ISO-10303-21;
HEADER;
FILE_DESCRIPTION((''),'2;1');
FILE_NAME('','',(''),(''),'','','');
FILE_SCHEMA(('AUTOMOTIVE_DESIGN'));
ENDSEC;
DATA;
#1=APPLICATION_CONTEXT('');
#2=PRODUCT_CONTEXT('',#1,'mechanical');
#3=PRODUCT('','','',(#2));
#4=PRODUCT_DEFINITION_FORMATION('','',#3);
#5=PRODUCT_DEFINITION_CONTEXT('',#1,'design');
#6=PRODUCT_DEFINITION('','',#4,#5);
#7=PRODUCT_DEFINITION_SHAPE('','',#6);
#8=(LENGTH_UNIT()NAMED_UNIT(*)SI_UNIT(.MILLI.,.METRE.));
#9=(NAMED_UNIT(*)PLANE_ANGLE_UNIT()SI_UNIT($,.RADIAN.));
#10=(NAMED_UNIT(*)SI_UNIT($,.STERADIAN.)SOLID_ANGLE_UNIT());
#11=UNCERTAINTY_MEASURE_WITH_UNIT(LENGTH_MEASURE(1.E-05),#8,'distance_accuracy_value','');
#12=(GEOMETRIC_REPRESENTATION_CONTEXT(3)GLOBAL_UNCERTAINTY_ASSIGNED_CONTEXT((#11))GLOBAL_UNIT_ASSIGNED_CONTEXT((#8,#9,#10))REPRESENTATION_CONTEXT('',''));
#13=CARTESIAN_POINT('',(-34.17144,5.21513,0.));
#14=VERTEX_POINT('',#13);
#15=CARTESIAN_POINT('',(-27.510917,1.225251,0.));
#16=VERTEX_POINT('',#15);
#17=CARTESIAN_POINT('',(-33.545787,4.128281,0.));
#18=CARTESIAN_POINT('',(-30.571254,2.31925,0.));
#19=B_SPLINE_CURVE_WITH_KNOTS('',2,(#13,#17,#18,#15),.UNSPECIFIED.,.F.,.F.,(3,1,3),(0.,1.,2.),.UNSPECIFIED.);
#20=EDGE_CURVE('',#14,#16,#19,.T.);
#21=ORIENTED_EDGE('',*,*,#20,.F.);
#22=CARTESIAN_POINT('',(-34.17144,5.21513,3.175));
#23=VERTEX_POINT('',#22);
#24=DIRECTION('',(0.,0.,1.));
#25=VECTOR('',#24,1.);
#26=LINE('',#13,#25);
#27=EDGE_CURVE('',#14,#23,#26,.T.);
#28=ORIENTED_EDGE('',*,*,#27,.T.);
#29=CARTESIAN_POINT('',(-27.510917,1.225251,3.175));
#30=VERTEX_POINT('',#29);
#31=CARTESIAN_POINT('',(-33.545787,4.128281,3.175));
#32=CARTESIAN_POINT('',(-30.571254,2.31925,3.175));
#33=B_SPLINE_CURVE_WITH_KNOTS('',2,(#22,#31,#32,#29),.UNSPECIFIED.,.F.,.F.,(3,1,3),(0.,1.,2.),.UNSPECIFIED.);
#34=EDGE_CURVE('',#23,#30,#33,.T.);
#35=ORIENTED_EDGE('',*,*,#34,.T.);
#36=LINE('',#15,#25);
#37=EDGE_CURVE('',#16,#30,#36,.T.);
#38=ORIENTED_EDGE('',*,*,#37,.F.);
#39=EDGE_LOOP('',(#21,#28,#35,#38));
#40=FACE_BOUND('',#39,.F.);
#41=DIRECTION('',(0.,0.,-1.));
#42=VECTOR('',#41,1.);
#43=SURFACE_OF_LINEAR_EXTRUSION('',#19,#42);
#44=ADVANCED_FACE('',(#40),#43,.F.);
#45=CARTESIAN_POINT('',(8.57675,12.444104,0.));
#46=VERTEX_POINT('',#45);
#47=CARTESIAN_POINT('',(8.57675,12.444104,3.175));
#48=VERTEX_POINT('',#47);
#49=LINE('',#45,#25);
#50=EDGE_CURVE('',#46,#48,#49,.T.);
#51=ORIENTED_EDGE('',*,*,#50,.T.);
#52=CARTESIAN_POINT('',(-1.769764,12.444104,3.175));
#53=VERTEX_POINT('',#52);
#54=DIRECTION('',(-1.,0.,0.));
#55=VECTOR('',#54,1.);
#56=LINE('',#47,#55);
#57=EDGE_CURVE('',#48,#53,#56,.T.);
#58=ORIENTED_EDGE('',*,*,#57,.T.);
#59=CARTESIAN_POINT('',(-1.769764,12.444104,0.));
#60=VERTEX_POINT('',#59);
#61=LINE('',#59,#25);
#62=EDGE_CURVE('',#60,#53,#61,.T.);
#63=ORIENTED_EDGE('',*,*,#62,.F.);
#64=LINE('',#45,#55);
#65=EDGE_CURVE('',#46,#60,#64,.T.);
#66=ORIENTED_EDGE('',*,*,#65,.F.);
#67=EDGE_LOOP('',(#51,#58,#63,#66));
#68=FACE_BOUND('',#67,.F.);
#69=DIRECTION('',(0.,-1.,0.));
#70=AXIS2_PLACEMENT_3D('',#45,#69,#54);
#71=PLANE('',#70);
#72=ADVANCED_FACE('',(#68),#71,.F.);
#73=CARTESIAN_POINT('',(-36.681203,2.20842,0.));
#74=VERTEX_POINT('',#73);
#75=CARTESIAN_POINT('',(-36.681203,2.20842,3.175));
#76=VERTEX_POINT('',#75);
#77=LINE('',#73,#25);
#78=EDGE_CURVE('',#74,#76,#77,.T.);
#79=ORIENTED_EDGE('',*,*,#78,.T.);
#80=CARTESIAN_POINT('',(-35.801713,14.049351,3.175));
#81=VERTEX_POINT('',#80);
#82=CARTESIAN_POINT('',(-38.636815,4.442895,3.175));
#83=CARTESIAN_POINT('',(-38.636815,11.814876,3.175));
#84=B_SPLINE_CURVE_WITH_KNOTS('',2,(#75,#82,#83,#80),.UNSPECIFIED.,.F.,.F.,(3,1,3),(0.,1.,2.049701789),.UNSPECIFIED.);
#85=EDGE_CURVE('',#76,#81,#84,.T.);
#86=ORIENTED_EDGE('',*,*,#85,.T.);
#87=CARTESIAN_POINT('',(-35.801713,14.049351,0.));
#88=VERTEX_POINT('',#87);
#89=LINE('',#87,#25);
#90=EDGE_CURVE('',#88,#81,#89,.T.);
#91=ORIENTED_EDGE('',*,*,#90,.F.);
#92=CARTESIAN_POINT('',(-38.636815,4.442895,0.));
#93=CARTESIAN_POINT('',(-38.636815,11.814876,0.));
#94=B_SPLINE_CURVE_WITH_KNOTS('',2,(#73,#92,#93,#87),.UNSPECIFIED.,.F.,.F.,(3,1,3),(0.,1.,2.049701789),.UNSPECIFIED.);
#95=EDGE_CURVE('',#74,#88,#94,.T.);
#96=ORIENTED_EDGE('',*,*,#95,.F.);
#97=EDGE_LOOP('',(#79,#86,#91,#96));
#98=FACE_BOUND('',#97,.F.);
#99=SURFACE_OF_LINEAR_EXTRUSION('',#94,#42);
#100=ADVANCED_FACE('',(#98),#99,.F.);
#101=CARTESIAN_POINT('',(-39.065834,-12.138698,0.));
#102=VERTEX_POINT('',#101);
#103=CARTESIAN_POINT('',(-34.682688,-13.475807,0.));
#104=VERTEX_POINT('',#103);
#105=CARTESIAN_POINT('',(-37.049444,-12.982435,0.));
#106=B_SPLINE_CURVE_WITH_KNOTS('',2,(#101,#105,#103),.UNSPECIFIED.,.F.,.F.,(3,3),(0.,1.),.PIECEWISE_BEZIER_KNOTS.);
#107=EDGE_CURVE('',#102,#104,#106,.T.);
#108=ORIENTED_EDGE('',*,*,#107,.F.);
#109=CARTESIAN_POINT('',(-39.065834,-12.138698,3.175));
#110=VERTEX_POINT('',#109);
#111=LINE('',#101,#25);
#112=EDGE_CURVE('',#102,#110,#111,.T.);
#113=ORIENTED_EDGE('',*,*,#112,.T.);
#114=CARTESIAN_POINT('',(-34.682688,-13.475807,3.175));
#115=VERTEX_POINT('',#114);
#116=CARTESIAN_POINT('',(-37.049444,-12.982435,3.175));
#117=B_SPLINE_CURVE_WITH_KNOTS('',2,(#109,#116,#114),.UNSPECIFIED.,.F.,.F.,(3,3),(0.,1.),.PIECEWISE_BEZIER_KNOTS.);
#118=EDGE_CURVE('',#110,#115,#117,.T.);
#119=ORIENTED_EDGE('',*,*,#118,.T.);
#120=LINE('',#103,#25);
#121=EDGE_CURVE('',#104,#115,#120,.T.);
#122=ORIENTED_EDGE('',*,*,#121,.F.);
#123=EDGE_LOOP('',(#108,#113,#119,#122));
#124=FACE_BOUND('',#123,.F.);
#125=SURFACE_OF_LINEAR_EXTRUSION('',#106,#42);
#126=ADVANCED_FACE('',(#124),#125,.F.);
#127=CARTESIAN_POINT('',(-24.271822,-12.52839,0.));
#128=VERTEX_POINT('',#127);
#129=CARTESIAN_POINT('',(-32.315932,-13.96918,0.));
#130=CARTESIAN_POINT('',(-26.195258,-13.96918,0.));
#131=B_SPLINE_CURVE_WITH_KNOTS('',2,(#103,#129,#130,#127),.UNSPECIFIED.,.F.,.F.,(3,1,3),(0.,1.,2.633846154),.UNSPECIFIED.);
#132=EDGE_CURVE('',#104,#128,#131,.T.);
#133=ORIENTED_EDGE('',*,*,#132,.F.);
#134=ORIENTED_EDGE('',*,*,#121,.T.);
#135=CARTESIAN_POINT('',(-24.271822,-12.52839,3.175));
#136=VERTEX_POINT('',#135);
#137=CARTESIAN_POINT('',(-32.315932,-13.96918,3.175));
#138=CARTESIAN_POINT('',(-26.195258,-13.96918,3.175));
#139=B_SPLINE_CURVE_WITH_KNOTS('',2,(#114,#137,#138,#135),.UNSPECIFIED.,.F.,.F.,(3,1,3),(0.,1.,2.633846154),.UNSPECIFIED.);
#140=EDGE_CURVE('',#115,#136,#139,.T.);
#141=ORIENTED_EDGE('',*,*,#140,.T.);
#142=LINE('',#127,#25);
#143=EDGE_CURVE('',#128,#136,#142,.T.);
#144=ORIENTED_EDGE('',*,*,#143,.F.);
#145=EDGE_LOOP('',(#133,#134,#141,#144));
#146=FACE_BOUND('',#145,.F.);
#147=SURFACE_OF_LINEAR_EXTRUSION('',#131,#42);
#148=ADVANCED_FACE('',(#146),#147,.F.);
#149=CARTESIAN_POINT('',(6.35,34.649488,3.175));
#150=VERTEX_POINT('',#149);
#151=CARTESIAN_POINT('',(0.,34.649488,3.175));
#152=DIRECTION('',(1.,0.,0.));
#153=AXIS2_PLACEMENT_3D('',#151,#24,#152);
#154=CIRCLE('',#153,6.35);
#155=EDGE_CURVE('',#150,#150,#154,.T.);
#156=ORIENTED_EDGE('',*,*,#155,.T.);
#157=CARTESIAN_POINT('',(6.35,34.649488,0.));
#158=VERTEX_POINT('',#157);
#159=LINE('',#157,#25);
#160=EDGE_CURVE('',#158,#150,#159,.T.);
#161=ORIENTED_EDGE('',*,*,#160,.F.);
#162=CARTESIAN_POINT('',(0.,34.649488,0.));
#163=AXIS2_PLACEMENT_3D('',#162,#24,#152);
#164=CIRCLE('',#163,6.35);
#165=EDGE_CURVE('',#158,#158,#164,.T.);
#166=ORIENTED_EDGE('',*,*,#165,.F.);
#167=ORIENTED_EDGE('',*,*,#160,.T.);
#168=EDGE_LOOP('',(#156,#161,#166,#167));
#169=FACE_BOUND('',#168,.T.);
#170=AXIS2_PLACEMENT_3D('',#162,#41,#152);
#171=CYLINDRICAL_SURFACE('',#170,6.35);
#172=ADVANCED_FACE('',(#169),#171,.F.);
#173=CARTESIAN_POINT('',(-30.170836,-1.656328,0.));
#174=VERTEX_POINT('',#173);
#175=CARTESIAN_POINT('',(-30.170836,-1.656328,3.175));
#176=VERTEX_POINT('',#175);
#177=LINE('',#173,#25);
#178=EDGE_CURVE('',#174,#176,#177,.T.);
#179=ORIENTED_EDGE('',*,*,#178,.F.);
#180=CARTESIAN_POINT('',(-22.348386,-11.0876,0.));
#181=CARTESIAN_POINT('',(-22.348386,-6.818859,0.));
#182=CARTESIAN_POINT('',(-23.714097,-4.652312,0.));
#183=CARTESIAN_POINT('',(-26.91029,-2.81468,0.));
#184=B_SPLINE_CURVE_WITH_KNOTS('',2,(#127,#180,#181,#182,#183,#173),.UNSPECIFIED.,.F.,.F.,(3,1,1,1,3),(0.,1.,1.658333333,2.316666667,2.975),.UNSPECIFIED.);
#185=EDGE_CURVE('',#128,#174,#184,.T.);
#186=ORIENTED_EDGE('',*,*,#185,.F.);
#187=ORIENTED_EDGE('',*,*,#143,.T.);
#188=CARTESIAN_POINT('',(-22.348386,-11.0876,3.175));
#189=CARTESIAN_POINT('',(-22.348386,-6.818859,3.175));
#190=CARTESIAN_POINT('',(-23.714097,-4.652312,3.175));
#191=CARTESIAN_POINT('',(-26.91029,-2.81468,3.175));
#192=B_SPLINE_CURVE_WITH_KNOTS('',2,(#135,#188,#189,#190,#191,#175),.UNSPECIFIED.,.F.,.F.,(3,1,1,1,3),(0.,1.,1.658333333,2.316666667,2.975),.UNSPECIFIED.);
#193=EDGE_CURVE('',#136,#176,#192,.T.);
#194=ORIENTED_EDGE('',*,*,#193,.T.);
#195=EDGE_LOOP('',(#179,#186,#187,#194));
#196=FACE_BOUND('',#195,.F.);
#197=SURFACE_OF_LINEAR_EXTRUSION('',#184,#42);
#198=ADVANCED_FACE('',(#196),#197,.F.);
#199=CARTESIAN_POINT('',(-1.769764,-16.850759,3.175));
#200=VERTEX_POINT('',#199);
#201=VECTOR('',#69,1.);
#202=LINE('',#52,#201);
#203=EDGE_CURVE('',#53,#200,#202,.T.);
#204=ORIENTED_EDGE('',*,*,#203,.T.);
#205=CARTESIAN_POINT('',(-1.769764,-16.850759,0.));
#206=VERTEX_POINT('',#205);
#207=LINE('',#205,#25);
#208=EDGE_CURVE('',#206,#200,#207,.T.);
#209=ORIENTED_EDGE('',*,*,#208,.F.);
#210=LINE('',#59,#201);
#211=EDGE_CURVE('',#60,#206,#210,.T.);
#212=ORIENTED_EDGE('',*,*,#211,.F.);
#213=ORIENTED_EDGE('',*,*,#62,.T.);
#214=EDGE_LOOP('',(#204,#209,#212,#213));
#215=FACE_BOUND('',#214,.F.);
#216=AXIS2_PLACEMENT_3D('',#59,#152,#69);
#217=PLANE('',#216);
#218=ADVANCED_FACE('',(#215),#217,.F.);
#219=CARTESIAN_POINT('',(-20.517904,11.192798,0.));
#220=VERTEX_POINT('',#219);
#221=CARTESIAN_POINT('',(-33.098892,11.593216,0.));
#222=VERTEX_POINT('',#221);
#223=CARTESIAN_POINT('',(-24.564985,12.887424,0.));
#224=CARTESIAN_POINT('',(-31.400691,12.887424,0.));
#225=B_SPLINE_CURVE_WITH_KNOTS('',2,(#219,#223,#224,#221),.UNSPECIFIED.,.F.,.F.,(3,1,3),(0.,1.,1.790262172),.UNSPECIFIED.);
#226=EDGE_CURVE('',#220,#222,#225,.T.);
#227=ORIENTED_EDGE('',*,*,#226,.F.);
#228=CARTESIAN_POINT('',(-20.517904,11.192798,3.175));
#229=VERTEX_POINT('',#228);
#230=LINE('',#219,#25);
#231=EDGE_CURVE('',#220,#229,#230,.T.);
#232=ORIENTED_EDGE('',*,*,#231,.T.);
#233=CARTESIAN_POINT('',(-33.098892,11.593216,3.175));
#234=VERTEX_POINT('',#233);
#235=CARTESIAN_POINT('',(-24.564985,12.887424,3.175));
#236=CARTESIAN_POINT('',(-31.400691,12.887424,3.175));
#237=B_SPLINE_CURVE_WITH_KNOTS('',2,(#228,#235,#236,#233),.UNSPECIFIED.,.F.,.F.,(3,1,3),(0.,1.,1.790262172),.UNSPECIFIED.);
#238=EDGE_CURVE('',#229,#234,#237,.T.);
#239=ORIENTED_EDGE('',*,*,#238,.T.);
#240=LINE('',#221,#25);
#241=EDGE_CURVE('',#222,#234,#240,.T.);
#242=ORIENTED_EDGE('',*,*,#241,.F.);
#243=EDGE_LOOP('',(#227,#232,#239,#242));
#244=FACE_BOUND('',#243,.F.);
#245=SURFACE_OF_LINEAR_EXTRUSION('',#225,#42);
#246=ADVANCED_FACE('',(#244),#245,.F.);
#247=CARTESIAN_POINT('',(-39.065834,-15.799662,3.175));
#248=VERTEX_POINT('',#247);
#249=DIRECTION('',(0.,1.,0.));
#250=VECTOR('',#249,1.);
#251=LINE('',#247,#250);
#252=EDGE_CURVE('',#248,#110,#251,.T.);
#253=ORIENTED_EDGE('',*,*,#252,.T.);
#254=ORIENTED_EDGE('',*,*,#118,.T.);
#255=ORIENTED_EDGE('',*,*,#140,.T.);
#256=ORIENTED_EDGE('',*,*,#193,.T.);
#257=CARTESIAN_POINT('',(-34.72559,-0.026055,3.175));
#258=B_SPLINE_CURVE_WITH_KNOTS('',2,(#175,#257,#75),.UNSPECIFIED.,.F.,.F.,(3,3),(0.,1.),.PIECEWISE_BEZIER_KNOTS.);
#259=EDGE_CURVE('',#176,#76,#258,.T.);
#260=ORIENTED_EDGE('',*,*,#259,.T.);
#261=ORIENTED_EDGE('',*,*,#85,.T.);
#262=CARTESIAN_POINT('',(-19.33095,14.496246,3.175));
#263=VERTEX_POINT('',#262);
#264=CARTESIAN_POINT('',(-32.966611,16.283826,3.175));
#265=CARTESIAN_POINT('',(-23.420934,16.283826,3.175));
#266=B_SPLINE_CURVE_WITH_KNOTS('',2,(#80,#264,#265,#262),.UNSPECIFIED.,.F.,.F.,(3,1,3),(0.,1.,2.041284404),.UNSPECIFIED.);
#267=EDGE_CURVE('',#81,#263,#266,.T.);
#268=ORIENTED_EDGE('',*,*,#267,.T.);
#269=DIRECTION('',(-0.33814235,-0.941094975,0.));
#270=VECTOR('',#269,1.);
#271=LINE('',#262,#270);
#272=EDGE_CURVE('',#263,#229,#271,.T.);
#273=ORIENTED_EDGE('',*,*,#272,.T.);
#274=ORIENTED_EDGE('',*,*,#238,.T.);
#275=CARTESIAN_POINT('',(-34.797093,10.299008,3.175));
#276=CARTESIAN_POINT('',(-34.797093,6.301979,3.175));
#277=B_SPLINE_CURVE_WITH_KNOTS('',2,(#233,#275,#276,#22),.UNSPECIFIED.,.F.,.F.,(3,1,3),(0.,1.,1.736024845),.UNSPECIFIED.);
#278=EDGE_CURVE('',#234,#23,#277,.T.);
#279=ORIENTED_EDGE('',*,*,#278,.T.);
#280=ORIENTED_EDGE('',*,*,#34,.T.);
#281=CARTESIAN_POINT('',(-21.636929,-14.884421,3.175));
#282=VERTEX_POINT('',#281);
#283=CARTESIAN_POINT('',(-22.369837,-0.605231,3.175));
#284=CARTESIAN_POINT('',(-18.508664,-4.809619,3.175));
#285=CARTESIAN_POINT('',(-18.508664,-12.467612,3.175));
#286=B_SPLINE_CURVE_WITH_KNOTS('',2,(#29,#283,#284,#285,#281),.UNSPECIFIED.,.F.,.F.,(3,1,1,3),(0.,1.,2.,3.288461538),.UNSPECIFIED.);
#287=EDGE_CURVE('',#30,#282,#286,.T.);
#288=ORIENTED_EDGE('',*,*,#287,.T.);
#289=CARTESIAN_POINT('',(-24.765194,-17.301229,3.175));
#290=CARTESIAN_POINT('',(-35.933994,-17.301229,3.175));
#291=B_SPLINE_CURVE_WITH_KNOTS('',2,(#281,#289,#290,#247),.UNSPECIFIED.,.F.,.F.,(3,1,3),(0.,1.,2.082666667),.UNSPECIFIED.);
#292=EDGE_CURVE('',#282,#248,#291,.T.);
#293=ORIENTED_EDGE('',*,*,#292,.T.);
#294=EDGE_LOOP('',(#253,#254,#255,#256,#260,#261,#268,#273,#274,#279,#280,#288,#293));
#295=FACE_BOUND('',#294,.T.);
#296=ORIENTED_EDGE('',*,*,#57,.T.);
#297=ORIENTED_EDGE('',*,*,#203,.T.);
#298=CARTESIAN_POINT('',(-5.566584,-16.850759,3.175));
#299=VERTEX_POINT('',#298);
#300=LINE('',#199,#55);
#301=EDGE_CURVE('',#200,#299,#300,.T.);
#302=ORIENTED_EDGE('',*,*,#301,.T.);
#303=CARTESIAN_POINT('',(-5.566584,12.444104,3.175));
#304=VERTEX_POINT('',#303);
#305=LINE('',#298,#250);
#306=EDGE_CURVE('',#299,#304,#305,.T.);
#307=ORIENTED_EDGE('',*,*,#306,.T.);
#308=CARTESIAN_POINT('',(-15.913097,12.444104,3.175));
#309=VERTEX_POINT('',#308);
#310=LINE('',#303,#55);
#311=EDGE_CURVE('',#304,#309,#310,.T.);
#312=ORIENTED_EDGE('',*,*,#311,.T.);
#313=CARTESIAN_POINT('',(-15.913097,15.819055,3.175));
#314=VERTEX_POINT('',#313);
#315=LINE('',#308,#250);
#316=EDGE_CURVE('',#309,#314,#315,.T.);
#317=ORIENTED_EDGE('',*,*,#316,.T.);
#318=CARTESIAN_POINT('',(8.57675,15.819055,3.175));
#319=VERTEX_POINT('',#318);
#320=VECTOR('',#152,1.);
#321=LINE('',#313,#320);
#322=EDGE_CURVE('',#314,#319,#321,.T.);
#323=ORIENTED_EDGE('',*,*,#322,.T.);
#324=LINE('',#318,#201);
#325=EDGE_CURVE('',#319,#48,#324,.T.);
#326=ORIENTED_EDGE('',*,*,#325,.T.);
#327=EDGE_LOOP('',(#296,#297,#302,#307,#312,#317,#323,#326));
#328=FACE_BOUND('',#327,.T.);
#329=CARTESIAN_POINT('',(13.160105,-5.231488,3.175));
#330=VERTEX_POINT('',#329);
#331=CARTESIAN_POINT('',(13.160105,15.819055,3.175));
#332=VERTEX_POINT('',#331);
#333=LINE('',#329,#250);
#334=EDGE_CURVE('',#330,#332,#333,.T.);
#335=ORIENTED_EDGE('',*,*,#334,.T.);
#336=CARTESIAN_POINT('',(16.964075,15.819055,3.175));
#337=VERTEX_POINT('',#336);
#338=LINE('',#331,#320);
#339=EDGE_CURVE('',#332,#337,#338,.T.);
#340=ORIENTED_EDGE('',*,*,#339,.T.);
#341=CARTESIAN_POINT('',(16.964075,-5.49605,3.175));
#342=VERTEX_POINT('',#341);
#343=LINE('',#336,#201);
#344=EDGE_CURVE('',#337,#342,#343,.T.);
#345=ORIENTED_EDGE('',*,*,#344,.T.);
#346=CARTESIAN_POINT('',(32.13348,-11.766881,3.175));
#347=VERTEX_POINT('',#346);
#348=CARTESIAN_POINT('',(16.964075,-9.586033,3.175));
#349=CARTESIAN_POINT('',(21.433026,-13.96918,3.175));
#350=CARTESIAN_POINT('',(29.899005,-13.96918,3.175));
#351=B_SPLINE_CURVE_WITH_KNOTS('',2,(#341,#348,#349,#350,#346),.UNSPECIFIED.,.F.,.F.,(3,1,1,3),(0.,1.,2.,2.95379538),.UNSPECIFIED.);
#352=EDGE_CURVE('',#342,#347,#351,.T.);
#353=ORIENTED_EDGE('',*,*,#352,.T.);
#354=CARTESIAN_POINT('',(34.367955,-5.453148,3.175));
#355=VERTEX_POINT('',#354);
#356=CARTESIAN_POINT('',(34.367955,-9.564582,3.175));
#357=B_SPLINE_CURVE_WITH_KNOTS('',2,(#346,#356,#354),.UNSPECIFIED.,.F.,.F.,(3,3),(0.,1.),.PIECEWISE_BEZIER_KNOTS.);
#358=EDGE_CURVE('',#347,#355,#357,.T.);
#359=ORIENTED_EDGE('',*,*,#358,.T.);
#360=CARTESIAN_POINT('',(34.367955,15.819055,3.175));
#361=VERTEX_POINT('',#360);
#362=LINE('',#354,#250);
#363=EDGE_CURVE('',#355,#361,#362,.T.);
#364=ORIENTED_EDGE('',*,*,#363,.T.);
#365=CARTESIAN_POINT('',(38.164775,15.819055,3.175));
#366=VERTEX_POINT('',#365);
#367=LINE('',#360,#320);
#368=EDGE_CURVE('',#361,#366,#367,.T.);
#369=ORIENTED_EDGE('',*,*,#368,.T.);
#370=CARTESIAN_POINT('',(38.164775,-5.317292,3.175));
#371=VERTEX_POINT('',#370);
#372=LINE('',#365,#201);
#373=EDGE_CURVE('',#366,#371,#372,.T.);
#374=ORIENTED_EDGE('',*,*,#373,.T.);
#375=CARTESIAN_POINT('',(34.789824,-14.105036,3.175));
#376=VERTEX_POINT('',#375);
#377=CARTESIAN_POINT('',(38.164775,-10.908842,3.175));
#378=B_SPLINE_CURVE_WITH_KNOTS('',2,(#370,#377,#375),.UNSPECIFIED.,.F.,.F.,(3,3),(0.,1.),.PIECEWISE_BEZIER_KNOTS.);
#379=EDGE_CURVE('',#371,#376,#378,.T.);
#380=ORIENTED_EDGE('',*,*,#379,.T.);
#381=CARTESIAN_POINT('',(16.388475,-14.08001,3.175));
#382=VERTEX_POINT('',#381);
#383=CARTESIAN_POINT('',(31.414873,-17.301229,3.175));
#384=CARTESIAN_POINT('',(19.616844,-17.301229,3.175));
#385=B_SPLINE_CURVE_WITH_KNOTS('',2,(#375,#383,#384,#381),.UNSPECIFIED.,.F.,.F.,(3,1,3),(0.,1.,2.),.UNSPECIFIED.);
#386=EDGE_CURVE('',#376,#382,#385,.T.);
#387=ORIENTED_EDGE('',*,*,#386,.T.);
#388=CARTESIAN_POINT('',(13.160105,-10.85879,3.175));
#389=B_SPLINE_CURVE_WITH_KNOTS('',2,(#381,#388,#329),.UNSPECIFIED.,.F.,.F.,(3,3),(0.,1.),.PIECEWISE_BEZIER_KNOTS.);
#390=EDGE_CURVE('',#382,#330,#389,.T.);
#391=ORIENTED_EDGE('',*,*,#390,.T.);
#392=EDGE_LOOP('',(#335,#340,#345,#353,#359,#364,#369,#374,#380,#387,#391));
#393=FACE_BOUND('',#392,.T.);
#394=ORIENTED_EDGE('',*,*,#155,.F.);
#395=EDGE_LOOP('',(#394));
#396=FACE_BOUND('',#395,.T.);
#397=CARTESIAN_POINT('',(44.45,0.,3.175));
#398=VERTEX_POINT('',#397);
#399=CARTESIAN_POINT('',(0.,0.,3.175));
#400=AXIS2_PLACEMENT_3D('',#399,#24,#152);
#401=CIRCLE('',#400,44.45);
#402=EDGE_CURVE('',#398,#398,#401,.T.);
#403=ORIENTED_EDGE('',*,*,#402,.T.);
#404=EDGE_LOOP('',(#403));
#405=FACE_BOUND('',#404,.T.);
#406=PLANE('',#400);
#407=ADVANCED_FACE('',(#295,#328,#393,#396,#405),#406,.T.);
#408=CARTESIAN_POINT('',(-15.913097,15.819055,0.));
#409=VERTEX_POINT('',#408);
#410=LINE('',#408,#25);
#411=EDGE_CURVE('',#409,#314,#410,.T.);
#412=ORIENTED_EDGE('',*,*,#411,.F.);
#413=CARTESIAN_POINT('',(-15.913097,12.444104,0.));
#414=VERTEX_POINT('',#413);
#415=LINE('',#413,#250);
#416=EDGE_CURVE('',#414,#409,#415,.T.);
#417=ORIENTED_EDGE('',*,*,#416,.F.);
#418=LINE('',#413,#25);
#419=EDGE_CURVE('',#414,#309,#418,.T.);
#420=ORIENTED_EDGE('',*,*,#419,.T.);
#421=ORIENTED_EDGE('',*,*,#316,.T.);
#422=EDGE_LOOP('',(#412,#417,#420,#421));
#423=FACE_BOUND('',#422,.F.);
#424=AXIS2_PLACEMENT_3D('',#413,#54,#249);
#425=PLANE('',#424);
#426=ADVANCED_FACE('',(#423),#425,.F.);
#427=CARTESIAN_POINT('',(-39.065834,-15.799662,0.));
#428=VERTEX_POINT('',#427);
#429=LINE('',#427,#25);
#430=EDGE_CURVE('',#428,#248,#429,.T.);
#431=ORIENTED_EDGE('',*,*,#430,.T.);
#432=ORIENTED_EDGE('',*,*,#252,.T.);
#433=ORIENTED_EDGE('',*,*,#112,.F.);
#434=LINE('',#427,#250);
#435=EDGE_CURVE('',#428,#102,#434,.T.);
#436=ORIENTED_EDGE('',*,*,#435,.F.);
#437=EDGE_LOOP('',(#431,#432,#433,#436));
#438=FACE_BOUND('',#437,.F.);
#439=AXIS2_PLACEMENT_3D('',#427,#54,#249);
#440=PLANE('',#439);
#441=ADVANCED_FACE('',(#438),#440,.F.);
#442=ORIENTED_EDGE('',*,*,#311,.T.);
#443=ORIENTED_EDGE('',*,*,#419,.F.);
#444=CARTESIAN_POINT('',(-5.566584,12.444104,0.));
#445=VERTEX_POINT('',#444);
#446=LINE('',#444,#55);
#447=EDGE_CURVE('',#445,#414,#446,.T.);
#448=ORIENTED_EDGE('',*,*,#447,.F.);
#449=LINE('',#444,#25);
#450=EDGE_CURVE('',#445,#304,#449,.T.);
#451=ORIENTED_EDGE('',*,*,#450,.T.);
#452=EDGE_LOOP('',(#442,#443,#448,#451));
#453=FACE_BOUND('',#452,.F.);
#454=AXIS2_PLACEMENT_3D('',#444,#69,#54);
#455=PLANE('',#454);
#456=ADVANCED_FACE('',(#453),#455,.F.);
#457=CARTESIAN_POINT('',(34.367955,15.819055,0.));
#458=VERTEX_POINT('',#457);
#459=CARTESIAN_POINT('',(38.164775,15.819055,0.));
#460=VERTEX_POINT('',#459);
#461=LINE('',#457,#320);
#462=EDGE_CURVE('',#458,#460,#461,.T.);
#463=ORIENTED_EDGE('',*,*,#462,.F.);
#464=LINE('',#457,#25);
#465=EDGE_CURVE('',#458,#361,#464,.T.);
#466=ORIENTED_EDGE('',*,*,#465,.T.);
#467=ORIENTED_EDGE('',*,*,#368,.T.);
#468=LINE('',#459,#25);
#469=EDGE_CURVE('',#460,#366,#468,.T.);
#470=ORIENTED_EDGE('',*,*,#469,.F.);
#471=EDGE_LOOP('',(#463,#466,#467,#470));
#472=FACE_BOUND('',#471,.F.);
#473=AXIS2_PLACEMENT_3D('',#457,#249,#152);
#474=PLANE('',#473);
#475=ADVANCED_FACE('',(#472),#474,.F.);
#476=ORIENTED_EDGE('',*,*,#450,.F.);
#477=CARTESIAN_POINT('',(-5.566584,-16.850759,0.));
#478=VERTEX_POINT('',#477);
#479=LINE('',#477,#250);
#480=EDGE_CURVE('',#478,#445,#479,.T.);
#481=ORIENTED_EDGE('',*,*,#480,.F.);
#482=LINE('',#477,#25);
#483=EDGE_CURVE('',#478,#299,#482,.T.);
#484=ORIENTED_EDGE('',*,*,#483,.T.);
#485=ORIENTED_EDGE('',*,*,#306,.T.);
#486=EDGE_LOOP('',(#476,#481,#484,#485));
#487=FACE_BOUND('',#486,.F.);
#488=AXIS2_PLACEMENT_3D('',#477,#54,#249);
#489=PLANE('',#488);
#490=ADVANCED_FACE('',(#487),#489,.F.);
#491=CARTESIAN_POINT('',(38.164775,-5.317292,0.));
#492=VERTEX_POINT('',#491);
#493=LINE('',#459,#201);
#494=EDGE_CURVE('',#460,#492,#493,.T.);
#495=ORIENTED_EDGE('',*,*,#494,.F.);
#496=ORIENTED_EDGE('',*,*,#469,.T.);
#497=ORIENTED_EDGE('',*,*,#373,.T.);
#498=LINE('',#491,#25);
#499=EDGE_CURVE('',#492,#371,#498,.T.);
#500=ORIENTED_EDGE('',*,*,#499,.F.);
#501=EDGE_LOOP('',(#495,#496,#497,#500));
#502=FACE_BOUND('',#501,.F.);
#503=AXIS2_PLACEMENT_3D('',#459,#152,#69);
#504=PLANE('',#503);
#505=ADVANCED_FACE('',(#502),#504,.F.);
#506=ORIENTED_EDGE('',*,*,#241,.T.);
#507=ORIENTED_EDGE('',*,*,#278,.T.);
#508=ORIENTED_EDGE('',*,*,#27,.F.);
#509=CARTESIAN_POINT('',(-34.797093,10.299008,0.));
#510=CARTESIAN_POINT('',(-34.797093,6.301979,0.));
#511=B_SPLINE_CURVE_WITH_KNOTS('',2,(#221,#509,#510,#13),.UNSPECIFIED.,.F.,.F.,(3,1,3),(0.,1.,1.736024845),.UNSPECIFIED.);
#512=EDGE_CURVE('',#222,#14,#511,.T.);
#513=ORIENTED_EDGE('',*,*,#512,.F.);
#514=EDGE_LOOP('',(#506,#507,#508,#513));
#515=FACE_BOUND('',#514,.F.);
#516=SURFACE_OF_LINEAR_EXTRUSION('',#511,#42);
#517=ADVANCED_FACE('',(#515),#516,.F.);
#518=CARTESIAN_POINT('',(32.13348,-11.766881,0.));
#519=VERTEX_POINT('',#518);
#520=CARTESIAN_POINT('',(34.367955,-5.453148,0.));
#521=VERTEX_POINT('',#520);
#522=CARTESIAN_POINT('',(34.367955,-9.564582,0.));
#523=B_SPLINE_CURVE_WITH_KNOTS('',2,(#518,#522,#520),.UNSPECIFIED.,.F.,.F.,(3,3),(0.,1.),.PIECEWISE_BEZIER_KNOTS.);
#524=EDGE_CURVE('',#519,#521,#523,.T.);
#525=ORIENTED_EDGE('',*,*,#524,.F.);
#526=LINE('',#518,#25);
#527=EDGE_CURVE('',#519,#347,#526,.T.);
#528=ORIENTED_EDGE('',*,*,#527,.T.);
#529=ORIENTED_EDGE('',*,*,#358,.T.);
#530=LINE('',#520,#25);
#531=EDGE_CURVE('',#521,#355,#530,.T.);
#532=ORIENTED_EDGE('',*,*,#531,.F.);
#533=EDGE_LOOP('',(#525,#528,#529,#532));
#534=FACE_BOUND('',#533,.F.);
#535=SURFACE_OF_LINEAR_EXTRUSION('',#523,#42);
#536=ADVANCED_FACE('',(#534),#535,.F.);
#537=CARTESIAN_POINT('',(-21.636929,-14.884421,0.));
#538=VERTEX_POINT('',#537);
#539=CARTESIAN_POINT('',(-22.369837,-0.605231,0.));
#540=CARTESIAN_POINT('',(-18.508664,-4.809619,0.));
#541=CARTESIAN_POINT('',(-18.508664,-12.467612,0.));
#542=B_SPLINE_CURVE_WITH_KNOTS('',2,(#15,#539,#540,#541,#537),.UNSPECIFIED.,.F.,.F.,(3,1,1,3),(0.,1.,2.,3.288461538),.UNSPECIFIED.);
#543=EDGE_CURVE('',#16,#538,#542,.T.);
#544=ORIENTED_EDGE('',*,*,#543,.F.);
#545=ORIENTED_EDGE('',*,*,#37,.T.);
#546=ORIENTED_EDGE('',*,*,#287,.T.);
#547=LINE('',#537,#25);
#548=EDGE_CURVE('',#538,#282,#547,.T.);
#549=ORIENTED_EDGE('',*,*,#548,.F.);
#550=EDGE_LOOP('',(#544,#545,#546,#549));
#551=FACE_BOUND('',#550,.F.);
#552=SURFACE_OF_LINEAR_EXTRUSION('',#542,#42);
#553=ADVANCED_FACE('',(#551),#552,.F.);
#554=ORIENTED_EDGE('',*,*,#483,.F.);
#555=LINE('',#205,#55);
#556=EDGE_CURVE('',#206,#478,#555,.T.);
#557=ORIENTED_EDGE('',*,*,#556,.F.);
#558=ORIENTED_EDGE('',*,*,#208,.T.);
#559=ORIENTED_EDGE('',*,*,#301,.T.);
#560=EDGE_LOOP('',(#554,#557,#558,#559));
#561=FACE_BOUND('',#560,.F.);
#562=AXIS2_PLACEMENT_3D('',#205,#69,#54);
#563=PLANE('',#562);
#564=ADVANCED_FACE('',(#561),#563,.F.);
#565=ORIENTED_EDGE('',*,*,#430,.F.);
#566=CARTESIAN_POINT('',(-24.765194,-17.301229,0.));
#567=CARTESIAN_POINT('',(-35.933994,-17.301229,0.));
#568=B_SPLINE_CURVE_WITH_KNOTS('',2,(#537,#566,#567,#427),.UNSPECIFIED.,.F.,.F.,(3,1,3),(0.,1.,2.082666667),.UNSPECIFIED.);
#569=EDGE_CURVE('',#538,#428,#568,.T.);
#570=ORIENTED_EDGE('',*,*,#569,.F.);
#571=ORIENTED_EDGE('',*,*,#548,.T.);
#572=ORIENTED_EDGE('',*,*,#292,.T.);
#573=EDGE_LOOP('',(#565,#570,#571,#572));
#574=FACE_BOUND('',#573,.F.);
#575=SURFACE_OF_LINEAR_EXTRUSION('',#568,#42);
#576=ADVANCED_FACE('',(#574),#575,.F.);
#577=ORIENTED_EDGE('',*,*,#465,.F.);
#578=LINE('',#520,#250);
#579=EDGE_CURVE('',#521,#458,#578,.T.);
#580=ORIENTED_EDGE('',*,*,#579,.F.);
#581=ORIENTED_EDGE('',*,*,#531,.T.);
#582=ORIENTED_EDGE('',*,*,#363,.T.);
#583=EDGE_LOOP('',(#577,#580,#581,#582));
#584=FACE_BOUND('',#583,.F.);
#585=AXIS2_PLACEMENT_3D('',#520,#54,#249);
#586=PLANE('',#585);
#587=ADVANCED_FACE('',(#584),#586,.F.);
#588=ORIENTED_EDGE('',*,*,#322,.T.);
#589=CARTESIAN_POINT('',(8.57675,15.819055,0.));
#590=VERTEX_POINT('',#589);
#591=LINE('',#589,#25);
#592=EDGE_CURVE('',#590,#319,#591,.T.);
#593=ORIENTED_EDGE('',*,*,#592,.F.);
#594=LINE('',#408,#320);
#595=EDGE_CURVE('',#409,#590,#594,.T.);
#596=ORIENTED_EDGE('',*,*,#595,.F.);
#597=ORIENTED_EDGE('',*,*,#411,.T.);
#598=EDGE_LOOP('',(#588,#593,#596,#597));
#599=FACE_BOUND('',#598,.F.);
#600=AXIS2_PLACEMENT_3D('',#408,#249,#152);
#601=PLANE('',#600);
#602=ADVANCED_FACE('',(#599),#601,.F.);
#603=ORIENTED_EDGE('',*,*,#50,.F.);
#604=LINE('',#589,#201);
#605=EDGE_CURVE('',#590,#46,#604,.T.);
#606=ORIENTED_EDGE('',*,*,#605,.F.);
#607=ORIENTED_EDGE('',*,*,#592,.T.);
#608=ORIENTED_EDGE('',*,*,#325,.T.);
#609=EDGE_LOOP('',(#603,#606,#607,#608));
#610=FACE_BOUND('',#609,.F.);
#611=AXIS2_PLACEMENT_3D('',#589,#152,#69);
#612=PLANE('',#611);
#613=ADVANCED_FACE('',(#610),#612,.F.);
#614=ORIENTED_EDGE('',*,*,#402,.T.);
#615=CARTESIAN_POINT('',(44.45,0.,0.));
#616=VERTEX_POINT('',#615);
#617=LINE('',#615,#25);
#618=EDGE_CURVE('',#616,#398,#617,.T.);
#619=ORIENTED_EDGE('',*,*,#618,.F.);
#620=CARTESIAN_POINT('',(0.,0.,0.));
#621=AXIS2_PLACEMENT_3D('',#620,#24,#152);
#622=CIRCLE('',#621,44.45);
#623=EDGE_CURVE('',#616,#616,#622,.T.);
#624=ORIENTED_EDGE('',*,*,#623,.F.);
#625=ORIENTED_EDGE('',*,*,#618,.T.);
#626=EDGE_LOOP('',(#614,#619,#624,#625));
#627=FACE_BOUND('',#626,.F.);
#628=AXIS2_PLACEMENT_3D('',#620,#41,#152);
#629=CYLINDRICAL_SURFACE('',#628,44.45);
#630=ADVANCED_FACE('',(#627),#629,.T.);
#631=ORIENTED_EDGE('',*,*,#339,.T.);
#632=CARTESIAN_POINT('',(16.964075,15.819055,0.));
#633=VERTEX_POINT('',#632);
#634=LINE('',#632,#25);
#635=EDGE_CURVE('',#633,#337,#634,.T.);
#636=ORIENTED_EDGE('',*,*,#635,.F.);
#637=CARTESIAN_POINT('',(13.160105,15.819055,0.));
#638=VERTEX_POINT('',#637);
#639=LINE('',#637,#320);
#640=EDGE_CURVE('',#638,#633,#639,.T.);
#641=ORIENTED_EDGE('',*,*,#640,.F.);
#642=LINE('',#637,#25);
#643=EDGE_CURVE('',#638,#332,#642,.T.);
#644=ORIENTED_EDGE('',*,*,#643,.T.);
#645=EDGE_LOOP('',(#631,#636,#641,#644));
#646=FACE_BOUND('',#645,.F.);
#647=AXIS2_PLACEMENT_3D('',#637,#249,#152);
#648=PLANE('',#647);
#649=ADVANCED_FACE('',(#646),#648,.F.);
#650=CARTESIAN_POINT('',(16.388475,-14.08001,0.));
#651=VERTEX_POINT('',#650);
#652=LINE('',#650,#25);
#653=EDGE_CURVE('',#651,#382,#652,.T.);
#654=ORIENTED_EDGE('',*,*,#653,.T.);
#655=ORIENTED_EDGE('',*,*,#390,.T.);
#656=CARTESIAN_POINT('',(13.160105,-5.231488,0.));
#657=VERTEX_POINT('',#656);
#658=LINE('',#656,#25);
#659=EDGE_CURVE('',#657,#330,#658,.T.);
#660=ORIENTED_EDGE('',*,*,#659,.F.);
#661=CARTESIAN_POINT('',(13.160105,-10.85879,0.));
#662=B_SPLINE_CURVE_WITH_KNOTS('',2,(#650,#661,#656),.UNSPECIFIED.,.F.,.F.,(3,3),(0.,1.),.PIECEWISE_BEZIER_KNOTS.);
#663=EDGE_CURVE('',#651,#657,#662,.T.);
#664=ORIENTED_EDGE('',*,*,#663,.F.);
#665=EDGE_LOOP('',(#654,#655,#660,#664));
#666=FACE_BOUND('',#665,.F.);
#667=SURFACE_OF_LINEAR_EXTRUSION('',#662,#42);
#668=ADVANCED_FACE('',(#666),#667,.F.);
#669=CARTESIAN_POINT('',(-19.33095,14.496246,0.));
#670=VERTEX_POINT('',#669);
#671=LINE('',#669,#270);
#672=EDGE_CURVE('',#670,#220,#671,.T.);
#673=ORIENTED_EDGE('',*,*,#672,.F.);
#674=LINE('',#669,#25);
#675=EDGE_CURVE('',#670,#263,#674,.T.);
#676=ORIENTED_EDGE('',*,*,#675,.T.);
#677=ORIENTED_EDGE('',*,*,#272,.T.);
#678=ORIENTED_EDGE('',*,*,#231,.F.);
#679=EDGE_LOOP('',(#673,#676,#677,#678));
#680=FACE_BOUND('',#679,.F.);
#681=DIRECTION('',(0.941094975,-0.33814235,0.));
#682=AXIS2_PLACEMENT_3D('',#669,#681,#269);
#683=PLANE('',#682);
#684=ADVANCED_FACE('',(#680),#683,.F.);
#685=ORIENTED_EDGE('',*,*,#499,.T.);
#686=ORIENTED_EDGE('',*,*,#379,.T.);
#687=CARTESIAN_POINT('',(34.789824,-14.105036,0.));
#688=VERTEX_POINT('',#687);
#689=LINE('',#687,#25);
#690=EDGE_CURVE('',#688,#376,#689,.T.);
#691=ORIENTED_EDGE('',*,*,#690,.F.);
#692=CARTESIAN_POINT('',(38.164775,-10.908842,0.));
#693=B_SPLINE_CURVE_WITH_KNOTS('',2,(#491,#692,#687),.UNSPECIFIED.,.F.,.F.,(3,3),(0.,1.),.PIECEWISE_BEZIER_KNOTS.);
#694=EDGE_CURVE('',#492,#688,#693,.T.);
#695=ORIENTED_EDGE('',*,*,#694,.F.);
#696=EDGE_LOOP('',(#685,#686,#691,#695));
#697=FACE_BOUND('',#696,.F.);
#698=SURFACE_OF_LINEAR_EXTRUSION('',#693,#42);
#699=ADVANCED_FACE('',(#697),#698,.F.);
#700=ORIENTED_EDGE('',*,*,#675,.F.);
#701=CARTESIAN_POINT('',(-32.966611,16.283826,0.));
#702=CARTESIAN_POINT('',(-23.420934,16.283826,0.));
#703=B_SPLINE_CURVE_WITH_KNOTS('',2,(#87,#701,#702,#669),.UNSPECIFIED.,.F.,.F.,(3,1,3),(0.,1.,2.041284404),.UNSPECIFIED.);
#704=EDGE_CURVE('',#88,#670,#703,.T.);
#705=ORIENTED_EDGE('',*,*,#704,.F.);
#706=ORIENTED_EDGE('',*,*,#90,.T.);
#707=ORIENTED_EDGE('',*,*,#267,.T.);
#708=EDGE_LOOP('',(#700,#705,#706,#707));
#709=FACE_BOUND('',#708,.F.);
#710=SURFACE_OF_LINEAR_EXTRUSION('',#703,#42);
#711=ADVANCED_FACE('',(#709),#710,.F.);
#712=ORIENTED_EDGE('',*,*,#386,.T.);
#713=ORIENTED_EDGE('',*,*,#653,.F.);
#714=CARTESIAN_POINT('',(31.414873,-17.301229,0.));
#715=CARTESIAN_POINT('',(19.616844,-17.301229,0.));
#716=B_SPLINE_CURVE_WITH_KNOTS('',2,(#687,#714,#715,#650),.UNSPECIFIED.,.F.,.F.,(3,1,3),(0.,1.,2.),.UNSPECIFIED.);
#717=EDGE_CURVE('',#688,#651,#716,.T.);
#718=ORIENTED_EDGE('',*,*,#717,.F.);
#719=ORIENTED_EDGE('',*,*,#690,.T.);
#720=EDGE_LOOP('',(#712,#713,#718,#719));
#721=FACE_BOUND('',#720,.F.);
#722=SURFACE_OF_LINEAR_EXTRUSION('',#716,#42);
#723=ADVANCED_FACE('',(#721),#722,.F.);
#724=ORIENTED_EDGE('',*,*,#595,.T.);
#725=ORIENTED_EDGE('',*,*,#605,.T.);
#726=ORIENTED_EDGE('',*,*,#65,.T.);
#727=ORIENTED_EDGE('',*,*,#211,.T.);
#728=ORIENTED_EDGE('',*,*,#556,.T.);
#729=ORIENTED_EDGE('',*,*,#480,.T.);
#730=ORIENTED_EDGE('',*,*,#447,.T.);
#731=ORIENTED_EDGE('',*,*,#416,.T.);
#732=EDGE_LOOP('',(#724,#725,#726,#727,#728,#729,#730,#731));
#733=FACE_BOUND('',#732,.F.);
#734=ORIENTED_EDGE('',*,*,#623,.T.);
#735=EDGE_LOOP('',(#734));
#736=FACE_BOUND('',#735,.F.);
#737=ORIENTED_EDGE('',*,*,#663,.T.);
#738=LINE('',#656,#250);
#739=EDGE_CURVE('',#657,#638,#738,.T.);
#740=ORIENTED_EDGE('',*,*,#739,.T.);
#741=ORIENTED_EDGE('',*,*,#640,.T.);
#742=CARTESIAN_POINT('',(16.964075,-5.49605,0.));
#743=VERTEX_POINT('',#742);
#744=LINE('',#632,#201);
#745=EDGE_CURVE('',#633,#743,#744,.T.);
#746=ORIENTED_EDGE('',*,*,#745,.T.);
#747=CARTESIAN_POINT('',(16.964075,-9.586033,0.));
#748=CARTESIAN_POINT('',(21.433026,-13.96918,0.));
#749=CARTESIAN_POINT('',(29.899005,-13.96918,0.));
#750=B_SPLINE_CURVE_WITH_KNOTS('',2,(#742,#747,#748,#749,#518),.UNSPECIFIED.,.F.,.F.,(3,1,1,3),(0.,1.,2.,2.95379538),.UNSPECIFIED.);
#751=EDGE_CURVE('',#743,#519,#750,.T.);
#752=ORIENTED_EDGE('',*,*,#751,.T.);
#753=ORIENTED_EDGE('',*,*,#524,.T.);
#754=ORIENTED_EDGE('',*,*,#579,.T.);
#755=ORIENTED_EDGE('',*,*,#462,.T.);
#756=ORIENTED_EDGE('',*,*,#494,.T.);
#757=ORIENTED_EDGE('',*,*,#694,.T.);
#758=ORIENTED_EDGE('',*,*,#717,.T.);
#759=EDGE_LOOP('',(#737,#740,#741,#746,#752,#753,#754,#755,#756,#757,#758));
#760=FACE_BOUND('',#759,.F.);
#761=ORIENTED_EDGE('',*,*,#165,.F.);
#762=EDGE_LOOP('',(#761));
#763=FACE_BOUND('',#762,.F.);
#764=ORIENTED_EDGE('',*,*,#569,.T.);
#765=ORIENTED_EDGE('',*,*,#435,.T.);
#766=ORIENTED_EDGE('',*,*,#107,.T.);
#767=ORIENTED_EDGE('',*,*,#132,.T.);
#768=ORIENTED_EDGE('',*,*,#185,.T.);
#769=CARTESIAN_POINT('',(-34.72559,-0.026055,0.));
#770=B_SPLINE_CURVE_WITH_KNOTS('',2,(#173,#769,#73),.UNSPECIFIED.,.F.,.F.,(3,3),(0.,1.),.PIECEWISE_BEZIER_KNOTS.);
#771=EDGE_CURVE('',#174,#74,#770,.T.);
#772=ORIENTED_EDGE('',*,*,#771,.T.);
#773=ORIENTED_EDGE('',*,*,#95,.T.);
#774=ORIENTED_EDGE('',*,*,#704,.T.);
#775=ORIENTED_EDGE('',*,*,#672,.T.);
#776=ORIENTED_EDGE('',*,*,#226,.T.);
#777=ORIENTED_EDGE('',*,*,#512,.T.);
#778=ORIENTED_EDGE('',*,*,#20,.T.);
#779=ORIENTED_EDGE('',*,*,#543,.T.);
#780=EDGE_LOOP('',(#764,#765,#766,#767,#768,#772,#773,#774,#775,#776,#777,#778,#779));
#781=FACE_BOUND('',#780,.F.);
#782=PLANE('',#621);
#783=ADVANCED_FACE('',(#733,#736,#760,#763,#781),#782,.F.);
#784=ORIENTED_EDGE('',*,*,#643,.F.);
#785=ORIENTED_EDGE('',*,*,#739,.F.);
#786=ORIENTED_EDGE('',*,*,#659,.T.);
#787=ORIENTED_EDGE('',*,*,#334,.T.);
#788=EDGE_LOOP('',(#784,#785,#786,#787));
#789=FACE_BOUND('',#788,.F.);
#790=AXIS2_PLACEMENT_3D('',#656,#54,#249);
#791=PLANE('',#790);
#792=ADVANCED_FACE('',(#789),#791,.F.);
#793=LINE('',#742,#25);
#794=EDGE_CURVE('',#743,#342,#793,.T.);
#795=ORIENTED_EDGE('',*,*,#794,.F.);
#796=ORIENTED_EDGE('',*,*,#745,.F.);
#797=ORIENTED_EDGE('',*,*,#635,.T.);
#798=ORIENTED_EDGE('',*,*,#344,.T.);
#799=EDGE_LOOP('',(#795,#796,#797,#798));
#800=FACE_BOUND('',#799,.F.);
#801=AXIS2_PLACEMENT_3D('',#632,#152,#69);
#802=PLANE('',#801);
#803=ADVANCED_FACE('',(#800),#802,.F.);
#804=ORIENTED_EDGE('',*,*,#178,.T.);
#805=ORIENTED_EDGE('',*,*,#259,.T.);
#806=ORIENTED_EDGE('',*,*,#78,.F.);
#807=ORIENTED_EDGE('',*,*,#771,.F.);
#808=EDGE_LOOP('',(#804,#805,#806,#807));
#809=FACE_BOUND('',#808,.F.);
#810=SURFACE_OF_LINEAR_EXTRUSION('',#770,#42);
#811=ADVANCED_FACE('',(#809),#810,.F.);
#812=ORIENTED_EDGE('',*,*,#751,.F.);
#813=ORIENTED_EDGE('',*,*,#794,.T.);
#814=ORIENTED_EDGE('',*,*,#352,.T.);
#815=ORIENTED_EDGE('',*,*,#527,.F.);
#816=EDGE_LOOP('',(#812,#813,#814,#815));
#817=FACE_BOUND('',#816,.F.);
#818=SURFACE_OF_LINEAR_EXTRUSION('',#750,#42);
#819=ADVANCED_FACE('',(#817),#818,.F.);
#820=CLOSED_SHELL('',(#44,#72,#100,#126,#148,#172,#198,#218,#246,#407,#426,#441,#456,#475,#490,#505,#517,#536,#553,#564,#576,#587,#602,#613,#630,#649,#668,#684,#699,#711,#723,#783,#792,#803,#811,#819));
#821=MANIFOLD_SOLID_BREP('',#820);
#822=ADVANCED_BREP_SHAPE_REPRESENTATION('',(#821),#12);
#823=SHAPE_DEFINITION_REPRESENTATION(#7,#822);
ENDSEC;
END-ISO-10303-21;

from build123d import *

# Parameters (mm, degrees)
F0_R     = 44.45
F0_R_2   = 6.35
F1_DEPTH = 3.175


with BuildPart() as f1:
    # F0 (on Top) → F1 (new body)
    with BuildSketch(Plane.XY):
        Circle(F0_R)
        with BuildLine():
            add(Edge.make_bspline(
                [(-20.4392500678, -2.7074250448), (-18.5086635833, -4.8096192168), (-18.5086635833, -8.1559691232)],
                knots=[0, 0, 0, 1, 1, 1], degree=2))
            add(Edge.make_bspline(
                [(-18.5086635833, -8.1559691232), (-18.5086635833, -12.4676122719), (-21.6369287203, -14.8844205377)],
                knots=[0, 0, 0, 1, 1, 1], degree=2))
            add(Edge.make_bspline(
                [(-21.6369287203, -14.8844205377), (-24.7651938572, -17.3012288034), (-30.1279340918, -17.3012288034)],
                knots=[0, 0, 0, 1, 1, 1], degree=2))
            add(Edge.make_bspline(
                [(-30.1279340918, -17.3012288034), (-35.9339941859, -17.3012288034), (-39.065834483, -15.7996615377)],
                knots=[0, 0, 0, 1, 1, 1], degree=2))
            Line((-39.065834483, -15.7996615377), (-39.065834483, -12.1386975375))
            add(Edge.make_bspline(
                [(-39.065834483, -12.1386975375), (-37.0494441547, -12.9824353344), (-34.6826881312, -13.475807436)],
                knots=[0, 0, 0, 1, 1, 1], degree=2))
            add(Edge.make_bspline(
                [(-34.6826881312, -13.475807436), (-32.3159321076, -13.9691795376), (-29.9920780059, -13.9691795376)],
                knots=[0, 0, 0, 1, 1, 1], degree=2))
            add(Edge.make_bspline(
                [(-29.9920780059, -13.9691795376), (-26.1952579197, -13.9691795376), (-24.2718217556, -12.5283899946)],
                knots=[0, 0, 0, 1, 1, 1], degree=2))
            add(Edge.make_bspline(
                [(-24.2718217556, -12.5283899946), (-22.3483855914, -11.0876004515), (-22.3483855914, -8.5134851389)],
                knots=[0, 0, 0, 1, 1, 1], degree=2))
            add(Edge.make_bspline(
                [(-22.3483855914, -8.5134851389), (-22.3483855914, -6.8188592247), (-23.0312411813, -5.7355856973)],
                knots=[0, 0, 0, 1, 1, 1], degree=2))
            add(Edge.make_bspline(
                [(-23.0312411813, -5.7355856973), (-23.7140967712, -4.6523121699), (-25.3121933611, -3.7334960097)],
                knots=[0, 0, 0, 1, 1, 1], degree=2))
            add(Edge.make_bspline(
                [(-25.3121933611, -3.7334960097), (-26.910289951, -2.8146798495), (-30.1708360137, -1.6563279588)],
                knots=[0, 0, 0, 1, 1, 1], degree=2))
            add(Edge.make_bspline(
                [(-30.1708360137, -1.6563279588), (-34.725590053, -0.0260549274), (-36.6812026586, 2.2084201704)],
                knots=[0, 0, 0, 1, 1, 1], degree=2))
            add(Edge.make_bspline(
                [(-36.6812026586, 2.2084201704), (-38.6368152642, 4.4428952681), (-38.6368152642, 8.0395063855)],
                knots=[0, 0, 0, 1, 1, 1], degree=2))
            add(Edge.make_bspline(
                [(-38.6368152642, 8.0395063855), (-38.6368152642, 11.8148755108), (-35.8017132601, 14.0493506086)],
                knots=[0, 0, 0, 1, 1, 1], degree=2))
            add(Edge.make_bspline(
                [(-35.8017132601, 14.0493506086), (-32.9666112561, 16.2838257063), (-28.2903017714, 16.2838257063)],
                knots=[0, 0, 0, 1, 1, 1], degree=2))
            add(Edge.make_bspline(
                [(-28.2903017714, 16.2838257063), (-23.4209336383, 16.2838257063), (-19.3309504193, 14.4962456281)],
                knots=[0, 0, 0, 1, 1, 1], degree=2))
            Line((-19.3309504193, 14.4962456281), (-20.5179035913, 11.1927976435))
            add(Edge.make_bspline(
                [(-20.5179035913, 11.1927976435), (-24.5649848884, 12.8874235577), (-28.3832559355, 12.8874235577)],
                knots=[0, 0, 0, 1, 1, 1], degree=2))
            add(Edge.make_bspline(
                [(-28.3832559355, 12.8874235577), (-31.4006911075, 12.8874235577), (-33.0988921819, 11.5932155811)],
                knots=[0, 0, 0, 1, 1, 1], degree=2))
            add(Edge.make_bspline(
                [(-33.0988921819, 11.5932155811), (-34.7970932562, 10.2990076044), (-34.7970932562, 7.9966044637)],
                knots=[0, 0, 0, 1, 1, 1], degree=2))
            add(Edge.make_bspline(
                [(-34.7970932562, 7.9966044637), (-34.7970932562, 6.3019785495), (-34.1714402288, 5.2151298619)],
                knots=[0, 0, 0, 1, 1, 1], degree=2))
            add(Edge.make_bspline(
                [(-34.1714402288, 5.2151298619), (-33.5457872014, 4.1282811744), (-32.0585205763, 3.2237656548)],
                knots=[0, 0, 0, 1, 1, 1], degree=2))
            add(Edge.make_bspline(
                [(-32.0585205763, 3.2237656548), (-30.5712539512, 2.3192501352), (-27.5109168573, 1.2252511273)],
                knots=[0, 0, 0, 1, 1, 1], degree=2))
            add(Edge.make_bspline(
                [(-27.5109168573, 1.2252511273), (-22.3698365523, -0.6052308728), (-20.4392500678, -2.7074250448)],
                knots=[0, 0, 0, 1, 1, 1], degree=2))
        make_face(mode=Mode.SUBTRACT)
        Polygon((-1.7697637308, 12.4441036983), (-1.7697637308, -16.8507586237), (-5.566583817, -16.8507586237), (-5.566583817, 12.4441036983), (-15.9130973098, 12.4441036983), (-15.9130973098, 15.819054886), (8.576749762, 15.819054886), (8.576749762, 12.4441036983), align=None, mode=Mode.SUBTRACT)
        with BuildLine():
            Line((34.3679551307, 15.819054886), (38.1647752168, 15.819054886))
            Line((38.1647752168, 15.819054886), (38.1647752168, -5.317291959))
            add(Edge.make_bspline(
                [(38.1647752168, -5.317291959), (38.1647752168, -10.9088424437), (34.7898240291, -14.1050356236)],
                knots=[0, 0, 0, 1, 1, 1], degree=2))
            add(Edge.make_bspline(
                [(34.7898240291, -14.1050356236), (31.4148728414, -17.3012288034), (25.5158585833, -17.3012288034)],
                knots=[0, 0, 0, 1, 1, 1], degree=2))
            add(Edge.make_bspline(
                [(25.5158585833, -17.3012288034), (19.6168443251, -17.3012288034), (16.3884747038, -14.0800095025)],
                knots=[0, 0, 0, 1, 1, 1], degree=2))
            add(Edge.make_bspline(
                [(16.3884747038, -14.0800095025), (13.1601050826, -10.8587902015), (13.1601050826, -5.2314881152)],
                knots=[0, 0, 0, 1, 1, 1], degree=2))
            Line((13.1601050826, -5.2314881152), (13.1601050826, 15.819054886))
            Line((13.1601050826, 15.819054886), (16.964075489, 15.819054886))
            Line((16.964075489, 15.819054886), (16.964075489, -5.4960499668))
            add(Edge.make_bspline(
                [(16.964075489, -5.4960499668), (16.964075489, -9.5860331858), (19.1985505868, -11.7776063617)],
                knots=[0, 0, 0, 1, 1, 1], degree=2))
            add(Edge.make_bspline(
                [(19.1985505868, -11.7776063617), (21.4330256846, -13.9691795376), (25.7661197942, -13.9691795376)],
                knots=[0, 0, 0, 1, 1, 1], degree=2))
            add(Edge.make_bspline(
                [(25.7661197942, -13.9691795376), (29.8990049351, -13.9691795376), (32.1334800329, -11.7668808812)],
                knots=[0, 0, 0, 1, 1, 1], degree=2))
            add(Edge.make_bspline(
                [(32.1334800329, -11.7668808812), (34.3679551307, -9.5645822249), (34.3679551307, -5.4531480449)],
                knots=[0, 0, 0, 1, 1, 1], degree=2))
            Line((34.3679551307, -5.4531480449), (34.3679551307, 15.819054886))
        make_face(mode=Mode.SUBTRACT)
        with Locations((0, 34.6494875848)):
            Circle(F0_R_2, mode=Mode.SUBTRACT)
    extrude(amount=F1_DEPTH)


solid = f1.part
